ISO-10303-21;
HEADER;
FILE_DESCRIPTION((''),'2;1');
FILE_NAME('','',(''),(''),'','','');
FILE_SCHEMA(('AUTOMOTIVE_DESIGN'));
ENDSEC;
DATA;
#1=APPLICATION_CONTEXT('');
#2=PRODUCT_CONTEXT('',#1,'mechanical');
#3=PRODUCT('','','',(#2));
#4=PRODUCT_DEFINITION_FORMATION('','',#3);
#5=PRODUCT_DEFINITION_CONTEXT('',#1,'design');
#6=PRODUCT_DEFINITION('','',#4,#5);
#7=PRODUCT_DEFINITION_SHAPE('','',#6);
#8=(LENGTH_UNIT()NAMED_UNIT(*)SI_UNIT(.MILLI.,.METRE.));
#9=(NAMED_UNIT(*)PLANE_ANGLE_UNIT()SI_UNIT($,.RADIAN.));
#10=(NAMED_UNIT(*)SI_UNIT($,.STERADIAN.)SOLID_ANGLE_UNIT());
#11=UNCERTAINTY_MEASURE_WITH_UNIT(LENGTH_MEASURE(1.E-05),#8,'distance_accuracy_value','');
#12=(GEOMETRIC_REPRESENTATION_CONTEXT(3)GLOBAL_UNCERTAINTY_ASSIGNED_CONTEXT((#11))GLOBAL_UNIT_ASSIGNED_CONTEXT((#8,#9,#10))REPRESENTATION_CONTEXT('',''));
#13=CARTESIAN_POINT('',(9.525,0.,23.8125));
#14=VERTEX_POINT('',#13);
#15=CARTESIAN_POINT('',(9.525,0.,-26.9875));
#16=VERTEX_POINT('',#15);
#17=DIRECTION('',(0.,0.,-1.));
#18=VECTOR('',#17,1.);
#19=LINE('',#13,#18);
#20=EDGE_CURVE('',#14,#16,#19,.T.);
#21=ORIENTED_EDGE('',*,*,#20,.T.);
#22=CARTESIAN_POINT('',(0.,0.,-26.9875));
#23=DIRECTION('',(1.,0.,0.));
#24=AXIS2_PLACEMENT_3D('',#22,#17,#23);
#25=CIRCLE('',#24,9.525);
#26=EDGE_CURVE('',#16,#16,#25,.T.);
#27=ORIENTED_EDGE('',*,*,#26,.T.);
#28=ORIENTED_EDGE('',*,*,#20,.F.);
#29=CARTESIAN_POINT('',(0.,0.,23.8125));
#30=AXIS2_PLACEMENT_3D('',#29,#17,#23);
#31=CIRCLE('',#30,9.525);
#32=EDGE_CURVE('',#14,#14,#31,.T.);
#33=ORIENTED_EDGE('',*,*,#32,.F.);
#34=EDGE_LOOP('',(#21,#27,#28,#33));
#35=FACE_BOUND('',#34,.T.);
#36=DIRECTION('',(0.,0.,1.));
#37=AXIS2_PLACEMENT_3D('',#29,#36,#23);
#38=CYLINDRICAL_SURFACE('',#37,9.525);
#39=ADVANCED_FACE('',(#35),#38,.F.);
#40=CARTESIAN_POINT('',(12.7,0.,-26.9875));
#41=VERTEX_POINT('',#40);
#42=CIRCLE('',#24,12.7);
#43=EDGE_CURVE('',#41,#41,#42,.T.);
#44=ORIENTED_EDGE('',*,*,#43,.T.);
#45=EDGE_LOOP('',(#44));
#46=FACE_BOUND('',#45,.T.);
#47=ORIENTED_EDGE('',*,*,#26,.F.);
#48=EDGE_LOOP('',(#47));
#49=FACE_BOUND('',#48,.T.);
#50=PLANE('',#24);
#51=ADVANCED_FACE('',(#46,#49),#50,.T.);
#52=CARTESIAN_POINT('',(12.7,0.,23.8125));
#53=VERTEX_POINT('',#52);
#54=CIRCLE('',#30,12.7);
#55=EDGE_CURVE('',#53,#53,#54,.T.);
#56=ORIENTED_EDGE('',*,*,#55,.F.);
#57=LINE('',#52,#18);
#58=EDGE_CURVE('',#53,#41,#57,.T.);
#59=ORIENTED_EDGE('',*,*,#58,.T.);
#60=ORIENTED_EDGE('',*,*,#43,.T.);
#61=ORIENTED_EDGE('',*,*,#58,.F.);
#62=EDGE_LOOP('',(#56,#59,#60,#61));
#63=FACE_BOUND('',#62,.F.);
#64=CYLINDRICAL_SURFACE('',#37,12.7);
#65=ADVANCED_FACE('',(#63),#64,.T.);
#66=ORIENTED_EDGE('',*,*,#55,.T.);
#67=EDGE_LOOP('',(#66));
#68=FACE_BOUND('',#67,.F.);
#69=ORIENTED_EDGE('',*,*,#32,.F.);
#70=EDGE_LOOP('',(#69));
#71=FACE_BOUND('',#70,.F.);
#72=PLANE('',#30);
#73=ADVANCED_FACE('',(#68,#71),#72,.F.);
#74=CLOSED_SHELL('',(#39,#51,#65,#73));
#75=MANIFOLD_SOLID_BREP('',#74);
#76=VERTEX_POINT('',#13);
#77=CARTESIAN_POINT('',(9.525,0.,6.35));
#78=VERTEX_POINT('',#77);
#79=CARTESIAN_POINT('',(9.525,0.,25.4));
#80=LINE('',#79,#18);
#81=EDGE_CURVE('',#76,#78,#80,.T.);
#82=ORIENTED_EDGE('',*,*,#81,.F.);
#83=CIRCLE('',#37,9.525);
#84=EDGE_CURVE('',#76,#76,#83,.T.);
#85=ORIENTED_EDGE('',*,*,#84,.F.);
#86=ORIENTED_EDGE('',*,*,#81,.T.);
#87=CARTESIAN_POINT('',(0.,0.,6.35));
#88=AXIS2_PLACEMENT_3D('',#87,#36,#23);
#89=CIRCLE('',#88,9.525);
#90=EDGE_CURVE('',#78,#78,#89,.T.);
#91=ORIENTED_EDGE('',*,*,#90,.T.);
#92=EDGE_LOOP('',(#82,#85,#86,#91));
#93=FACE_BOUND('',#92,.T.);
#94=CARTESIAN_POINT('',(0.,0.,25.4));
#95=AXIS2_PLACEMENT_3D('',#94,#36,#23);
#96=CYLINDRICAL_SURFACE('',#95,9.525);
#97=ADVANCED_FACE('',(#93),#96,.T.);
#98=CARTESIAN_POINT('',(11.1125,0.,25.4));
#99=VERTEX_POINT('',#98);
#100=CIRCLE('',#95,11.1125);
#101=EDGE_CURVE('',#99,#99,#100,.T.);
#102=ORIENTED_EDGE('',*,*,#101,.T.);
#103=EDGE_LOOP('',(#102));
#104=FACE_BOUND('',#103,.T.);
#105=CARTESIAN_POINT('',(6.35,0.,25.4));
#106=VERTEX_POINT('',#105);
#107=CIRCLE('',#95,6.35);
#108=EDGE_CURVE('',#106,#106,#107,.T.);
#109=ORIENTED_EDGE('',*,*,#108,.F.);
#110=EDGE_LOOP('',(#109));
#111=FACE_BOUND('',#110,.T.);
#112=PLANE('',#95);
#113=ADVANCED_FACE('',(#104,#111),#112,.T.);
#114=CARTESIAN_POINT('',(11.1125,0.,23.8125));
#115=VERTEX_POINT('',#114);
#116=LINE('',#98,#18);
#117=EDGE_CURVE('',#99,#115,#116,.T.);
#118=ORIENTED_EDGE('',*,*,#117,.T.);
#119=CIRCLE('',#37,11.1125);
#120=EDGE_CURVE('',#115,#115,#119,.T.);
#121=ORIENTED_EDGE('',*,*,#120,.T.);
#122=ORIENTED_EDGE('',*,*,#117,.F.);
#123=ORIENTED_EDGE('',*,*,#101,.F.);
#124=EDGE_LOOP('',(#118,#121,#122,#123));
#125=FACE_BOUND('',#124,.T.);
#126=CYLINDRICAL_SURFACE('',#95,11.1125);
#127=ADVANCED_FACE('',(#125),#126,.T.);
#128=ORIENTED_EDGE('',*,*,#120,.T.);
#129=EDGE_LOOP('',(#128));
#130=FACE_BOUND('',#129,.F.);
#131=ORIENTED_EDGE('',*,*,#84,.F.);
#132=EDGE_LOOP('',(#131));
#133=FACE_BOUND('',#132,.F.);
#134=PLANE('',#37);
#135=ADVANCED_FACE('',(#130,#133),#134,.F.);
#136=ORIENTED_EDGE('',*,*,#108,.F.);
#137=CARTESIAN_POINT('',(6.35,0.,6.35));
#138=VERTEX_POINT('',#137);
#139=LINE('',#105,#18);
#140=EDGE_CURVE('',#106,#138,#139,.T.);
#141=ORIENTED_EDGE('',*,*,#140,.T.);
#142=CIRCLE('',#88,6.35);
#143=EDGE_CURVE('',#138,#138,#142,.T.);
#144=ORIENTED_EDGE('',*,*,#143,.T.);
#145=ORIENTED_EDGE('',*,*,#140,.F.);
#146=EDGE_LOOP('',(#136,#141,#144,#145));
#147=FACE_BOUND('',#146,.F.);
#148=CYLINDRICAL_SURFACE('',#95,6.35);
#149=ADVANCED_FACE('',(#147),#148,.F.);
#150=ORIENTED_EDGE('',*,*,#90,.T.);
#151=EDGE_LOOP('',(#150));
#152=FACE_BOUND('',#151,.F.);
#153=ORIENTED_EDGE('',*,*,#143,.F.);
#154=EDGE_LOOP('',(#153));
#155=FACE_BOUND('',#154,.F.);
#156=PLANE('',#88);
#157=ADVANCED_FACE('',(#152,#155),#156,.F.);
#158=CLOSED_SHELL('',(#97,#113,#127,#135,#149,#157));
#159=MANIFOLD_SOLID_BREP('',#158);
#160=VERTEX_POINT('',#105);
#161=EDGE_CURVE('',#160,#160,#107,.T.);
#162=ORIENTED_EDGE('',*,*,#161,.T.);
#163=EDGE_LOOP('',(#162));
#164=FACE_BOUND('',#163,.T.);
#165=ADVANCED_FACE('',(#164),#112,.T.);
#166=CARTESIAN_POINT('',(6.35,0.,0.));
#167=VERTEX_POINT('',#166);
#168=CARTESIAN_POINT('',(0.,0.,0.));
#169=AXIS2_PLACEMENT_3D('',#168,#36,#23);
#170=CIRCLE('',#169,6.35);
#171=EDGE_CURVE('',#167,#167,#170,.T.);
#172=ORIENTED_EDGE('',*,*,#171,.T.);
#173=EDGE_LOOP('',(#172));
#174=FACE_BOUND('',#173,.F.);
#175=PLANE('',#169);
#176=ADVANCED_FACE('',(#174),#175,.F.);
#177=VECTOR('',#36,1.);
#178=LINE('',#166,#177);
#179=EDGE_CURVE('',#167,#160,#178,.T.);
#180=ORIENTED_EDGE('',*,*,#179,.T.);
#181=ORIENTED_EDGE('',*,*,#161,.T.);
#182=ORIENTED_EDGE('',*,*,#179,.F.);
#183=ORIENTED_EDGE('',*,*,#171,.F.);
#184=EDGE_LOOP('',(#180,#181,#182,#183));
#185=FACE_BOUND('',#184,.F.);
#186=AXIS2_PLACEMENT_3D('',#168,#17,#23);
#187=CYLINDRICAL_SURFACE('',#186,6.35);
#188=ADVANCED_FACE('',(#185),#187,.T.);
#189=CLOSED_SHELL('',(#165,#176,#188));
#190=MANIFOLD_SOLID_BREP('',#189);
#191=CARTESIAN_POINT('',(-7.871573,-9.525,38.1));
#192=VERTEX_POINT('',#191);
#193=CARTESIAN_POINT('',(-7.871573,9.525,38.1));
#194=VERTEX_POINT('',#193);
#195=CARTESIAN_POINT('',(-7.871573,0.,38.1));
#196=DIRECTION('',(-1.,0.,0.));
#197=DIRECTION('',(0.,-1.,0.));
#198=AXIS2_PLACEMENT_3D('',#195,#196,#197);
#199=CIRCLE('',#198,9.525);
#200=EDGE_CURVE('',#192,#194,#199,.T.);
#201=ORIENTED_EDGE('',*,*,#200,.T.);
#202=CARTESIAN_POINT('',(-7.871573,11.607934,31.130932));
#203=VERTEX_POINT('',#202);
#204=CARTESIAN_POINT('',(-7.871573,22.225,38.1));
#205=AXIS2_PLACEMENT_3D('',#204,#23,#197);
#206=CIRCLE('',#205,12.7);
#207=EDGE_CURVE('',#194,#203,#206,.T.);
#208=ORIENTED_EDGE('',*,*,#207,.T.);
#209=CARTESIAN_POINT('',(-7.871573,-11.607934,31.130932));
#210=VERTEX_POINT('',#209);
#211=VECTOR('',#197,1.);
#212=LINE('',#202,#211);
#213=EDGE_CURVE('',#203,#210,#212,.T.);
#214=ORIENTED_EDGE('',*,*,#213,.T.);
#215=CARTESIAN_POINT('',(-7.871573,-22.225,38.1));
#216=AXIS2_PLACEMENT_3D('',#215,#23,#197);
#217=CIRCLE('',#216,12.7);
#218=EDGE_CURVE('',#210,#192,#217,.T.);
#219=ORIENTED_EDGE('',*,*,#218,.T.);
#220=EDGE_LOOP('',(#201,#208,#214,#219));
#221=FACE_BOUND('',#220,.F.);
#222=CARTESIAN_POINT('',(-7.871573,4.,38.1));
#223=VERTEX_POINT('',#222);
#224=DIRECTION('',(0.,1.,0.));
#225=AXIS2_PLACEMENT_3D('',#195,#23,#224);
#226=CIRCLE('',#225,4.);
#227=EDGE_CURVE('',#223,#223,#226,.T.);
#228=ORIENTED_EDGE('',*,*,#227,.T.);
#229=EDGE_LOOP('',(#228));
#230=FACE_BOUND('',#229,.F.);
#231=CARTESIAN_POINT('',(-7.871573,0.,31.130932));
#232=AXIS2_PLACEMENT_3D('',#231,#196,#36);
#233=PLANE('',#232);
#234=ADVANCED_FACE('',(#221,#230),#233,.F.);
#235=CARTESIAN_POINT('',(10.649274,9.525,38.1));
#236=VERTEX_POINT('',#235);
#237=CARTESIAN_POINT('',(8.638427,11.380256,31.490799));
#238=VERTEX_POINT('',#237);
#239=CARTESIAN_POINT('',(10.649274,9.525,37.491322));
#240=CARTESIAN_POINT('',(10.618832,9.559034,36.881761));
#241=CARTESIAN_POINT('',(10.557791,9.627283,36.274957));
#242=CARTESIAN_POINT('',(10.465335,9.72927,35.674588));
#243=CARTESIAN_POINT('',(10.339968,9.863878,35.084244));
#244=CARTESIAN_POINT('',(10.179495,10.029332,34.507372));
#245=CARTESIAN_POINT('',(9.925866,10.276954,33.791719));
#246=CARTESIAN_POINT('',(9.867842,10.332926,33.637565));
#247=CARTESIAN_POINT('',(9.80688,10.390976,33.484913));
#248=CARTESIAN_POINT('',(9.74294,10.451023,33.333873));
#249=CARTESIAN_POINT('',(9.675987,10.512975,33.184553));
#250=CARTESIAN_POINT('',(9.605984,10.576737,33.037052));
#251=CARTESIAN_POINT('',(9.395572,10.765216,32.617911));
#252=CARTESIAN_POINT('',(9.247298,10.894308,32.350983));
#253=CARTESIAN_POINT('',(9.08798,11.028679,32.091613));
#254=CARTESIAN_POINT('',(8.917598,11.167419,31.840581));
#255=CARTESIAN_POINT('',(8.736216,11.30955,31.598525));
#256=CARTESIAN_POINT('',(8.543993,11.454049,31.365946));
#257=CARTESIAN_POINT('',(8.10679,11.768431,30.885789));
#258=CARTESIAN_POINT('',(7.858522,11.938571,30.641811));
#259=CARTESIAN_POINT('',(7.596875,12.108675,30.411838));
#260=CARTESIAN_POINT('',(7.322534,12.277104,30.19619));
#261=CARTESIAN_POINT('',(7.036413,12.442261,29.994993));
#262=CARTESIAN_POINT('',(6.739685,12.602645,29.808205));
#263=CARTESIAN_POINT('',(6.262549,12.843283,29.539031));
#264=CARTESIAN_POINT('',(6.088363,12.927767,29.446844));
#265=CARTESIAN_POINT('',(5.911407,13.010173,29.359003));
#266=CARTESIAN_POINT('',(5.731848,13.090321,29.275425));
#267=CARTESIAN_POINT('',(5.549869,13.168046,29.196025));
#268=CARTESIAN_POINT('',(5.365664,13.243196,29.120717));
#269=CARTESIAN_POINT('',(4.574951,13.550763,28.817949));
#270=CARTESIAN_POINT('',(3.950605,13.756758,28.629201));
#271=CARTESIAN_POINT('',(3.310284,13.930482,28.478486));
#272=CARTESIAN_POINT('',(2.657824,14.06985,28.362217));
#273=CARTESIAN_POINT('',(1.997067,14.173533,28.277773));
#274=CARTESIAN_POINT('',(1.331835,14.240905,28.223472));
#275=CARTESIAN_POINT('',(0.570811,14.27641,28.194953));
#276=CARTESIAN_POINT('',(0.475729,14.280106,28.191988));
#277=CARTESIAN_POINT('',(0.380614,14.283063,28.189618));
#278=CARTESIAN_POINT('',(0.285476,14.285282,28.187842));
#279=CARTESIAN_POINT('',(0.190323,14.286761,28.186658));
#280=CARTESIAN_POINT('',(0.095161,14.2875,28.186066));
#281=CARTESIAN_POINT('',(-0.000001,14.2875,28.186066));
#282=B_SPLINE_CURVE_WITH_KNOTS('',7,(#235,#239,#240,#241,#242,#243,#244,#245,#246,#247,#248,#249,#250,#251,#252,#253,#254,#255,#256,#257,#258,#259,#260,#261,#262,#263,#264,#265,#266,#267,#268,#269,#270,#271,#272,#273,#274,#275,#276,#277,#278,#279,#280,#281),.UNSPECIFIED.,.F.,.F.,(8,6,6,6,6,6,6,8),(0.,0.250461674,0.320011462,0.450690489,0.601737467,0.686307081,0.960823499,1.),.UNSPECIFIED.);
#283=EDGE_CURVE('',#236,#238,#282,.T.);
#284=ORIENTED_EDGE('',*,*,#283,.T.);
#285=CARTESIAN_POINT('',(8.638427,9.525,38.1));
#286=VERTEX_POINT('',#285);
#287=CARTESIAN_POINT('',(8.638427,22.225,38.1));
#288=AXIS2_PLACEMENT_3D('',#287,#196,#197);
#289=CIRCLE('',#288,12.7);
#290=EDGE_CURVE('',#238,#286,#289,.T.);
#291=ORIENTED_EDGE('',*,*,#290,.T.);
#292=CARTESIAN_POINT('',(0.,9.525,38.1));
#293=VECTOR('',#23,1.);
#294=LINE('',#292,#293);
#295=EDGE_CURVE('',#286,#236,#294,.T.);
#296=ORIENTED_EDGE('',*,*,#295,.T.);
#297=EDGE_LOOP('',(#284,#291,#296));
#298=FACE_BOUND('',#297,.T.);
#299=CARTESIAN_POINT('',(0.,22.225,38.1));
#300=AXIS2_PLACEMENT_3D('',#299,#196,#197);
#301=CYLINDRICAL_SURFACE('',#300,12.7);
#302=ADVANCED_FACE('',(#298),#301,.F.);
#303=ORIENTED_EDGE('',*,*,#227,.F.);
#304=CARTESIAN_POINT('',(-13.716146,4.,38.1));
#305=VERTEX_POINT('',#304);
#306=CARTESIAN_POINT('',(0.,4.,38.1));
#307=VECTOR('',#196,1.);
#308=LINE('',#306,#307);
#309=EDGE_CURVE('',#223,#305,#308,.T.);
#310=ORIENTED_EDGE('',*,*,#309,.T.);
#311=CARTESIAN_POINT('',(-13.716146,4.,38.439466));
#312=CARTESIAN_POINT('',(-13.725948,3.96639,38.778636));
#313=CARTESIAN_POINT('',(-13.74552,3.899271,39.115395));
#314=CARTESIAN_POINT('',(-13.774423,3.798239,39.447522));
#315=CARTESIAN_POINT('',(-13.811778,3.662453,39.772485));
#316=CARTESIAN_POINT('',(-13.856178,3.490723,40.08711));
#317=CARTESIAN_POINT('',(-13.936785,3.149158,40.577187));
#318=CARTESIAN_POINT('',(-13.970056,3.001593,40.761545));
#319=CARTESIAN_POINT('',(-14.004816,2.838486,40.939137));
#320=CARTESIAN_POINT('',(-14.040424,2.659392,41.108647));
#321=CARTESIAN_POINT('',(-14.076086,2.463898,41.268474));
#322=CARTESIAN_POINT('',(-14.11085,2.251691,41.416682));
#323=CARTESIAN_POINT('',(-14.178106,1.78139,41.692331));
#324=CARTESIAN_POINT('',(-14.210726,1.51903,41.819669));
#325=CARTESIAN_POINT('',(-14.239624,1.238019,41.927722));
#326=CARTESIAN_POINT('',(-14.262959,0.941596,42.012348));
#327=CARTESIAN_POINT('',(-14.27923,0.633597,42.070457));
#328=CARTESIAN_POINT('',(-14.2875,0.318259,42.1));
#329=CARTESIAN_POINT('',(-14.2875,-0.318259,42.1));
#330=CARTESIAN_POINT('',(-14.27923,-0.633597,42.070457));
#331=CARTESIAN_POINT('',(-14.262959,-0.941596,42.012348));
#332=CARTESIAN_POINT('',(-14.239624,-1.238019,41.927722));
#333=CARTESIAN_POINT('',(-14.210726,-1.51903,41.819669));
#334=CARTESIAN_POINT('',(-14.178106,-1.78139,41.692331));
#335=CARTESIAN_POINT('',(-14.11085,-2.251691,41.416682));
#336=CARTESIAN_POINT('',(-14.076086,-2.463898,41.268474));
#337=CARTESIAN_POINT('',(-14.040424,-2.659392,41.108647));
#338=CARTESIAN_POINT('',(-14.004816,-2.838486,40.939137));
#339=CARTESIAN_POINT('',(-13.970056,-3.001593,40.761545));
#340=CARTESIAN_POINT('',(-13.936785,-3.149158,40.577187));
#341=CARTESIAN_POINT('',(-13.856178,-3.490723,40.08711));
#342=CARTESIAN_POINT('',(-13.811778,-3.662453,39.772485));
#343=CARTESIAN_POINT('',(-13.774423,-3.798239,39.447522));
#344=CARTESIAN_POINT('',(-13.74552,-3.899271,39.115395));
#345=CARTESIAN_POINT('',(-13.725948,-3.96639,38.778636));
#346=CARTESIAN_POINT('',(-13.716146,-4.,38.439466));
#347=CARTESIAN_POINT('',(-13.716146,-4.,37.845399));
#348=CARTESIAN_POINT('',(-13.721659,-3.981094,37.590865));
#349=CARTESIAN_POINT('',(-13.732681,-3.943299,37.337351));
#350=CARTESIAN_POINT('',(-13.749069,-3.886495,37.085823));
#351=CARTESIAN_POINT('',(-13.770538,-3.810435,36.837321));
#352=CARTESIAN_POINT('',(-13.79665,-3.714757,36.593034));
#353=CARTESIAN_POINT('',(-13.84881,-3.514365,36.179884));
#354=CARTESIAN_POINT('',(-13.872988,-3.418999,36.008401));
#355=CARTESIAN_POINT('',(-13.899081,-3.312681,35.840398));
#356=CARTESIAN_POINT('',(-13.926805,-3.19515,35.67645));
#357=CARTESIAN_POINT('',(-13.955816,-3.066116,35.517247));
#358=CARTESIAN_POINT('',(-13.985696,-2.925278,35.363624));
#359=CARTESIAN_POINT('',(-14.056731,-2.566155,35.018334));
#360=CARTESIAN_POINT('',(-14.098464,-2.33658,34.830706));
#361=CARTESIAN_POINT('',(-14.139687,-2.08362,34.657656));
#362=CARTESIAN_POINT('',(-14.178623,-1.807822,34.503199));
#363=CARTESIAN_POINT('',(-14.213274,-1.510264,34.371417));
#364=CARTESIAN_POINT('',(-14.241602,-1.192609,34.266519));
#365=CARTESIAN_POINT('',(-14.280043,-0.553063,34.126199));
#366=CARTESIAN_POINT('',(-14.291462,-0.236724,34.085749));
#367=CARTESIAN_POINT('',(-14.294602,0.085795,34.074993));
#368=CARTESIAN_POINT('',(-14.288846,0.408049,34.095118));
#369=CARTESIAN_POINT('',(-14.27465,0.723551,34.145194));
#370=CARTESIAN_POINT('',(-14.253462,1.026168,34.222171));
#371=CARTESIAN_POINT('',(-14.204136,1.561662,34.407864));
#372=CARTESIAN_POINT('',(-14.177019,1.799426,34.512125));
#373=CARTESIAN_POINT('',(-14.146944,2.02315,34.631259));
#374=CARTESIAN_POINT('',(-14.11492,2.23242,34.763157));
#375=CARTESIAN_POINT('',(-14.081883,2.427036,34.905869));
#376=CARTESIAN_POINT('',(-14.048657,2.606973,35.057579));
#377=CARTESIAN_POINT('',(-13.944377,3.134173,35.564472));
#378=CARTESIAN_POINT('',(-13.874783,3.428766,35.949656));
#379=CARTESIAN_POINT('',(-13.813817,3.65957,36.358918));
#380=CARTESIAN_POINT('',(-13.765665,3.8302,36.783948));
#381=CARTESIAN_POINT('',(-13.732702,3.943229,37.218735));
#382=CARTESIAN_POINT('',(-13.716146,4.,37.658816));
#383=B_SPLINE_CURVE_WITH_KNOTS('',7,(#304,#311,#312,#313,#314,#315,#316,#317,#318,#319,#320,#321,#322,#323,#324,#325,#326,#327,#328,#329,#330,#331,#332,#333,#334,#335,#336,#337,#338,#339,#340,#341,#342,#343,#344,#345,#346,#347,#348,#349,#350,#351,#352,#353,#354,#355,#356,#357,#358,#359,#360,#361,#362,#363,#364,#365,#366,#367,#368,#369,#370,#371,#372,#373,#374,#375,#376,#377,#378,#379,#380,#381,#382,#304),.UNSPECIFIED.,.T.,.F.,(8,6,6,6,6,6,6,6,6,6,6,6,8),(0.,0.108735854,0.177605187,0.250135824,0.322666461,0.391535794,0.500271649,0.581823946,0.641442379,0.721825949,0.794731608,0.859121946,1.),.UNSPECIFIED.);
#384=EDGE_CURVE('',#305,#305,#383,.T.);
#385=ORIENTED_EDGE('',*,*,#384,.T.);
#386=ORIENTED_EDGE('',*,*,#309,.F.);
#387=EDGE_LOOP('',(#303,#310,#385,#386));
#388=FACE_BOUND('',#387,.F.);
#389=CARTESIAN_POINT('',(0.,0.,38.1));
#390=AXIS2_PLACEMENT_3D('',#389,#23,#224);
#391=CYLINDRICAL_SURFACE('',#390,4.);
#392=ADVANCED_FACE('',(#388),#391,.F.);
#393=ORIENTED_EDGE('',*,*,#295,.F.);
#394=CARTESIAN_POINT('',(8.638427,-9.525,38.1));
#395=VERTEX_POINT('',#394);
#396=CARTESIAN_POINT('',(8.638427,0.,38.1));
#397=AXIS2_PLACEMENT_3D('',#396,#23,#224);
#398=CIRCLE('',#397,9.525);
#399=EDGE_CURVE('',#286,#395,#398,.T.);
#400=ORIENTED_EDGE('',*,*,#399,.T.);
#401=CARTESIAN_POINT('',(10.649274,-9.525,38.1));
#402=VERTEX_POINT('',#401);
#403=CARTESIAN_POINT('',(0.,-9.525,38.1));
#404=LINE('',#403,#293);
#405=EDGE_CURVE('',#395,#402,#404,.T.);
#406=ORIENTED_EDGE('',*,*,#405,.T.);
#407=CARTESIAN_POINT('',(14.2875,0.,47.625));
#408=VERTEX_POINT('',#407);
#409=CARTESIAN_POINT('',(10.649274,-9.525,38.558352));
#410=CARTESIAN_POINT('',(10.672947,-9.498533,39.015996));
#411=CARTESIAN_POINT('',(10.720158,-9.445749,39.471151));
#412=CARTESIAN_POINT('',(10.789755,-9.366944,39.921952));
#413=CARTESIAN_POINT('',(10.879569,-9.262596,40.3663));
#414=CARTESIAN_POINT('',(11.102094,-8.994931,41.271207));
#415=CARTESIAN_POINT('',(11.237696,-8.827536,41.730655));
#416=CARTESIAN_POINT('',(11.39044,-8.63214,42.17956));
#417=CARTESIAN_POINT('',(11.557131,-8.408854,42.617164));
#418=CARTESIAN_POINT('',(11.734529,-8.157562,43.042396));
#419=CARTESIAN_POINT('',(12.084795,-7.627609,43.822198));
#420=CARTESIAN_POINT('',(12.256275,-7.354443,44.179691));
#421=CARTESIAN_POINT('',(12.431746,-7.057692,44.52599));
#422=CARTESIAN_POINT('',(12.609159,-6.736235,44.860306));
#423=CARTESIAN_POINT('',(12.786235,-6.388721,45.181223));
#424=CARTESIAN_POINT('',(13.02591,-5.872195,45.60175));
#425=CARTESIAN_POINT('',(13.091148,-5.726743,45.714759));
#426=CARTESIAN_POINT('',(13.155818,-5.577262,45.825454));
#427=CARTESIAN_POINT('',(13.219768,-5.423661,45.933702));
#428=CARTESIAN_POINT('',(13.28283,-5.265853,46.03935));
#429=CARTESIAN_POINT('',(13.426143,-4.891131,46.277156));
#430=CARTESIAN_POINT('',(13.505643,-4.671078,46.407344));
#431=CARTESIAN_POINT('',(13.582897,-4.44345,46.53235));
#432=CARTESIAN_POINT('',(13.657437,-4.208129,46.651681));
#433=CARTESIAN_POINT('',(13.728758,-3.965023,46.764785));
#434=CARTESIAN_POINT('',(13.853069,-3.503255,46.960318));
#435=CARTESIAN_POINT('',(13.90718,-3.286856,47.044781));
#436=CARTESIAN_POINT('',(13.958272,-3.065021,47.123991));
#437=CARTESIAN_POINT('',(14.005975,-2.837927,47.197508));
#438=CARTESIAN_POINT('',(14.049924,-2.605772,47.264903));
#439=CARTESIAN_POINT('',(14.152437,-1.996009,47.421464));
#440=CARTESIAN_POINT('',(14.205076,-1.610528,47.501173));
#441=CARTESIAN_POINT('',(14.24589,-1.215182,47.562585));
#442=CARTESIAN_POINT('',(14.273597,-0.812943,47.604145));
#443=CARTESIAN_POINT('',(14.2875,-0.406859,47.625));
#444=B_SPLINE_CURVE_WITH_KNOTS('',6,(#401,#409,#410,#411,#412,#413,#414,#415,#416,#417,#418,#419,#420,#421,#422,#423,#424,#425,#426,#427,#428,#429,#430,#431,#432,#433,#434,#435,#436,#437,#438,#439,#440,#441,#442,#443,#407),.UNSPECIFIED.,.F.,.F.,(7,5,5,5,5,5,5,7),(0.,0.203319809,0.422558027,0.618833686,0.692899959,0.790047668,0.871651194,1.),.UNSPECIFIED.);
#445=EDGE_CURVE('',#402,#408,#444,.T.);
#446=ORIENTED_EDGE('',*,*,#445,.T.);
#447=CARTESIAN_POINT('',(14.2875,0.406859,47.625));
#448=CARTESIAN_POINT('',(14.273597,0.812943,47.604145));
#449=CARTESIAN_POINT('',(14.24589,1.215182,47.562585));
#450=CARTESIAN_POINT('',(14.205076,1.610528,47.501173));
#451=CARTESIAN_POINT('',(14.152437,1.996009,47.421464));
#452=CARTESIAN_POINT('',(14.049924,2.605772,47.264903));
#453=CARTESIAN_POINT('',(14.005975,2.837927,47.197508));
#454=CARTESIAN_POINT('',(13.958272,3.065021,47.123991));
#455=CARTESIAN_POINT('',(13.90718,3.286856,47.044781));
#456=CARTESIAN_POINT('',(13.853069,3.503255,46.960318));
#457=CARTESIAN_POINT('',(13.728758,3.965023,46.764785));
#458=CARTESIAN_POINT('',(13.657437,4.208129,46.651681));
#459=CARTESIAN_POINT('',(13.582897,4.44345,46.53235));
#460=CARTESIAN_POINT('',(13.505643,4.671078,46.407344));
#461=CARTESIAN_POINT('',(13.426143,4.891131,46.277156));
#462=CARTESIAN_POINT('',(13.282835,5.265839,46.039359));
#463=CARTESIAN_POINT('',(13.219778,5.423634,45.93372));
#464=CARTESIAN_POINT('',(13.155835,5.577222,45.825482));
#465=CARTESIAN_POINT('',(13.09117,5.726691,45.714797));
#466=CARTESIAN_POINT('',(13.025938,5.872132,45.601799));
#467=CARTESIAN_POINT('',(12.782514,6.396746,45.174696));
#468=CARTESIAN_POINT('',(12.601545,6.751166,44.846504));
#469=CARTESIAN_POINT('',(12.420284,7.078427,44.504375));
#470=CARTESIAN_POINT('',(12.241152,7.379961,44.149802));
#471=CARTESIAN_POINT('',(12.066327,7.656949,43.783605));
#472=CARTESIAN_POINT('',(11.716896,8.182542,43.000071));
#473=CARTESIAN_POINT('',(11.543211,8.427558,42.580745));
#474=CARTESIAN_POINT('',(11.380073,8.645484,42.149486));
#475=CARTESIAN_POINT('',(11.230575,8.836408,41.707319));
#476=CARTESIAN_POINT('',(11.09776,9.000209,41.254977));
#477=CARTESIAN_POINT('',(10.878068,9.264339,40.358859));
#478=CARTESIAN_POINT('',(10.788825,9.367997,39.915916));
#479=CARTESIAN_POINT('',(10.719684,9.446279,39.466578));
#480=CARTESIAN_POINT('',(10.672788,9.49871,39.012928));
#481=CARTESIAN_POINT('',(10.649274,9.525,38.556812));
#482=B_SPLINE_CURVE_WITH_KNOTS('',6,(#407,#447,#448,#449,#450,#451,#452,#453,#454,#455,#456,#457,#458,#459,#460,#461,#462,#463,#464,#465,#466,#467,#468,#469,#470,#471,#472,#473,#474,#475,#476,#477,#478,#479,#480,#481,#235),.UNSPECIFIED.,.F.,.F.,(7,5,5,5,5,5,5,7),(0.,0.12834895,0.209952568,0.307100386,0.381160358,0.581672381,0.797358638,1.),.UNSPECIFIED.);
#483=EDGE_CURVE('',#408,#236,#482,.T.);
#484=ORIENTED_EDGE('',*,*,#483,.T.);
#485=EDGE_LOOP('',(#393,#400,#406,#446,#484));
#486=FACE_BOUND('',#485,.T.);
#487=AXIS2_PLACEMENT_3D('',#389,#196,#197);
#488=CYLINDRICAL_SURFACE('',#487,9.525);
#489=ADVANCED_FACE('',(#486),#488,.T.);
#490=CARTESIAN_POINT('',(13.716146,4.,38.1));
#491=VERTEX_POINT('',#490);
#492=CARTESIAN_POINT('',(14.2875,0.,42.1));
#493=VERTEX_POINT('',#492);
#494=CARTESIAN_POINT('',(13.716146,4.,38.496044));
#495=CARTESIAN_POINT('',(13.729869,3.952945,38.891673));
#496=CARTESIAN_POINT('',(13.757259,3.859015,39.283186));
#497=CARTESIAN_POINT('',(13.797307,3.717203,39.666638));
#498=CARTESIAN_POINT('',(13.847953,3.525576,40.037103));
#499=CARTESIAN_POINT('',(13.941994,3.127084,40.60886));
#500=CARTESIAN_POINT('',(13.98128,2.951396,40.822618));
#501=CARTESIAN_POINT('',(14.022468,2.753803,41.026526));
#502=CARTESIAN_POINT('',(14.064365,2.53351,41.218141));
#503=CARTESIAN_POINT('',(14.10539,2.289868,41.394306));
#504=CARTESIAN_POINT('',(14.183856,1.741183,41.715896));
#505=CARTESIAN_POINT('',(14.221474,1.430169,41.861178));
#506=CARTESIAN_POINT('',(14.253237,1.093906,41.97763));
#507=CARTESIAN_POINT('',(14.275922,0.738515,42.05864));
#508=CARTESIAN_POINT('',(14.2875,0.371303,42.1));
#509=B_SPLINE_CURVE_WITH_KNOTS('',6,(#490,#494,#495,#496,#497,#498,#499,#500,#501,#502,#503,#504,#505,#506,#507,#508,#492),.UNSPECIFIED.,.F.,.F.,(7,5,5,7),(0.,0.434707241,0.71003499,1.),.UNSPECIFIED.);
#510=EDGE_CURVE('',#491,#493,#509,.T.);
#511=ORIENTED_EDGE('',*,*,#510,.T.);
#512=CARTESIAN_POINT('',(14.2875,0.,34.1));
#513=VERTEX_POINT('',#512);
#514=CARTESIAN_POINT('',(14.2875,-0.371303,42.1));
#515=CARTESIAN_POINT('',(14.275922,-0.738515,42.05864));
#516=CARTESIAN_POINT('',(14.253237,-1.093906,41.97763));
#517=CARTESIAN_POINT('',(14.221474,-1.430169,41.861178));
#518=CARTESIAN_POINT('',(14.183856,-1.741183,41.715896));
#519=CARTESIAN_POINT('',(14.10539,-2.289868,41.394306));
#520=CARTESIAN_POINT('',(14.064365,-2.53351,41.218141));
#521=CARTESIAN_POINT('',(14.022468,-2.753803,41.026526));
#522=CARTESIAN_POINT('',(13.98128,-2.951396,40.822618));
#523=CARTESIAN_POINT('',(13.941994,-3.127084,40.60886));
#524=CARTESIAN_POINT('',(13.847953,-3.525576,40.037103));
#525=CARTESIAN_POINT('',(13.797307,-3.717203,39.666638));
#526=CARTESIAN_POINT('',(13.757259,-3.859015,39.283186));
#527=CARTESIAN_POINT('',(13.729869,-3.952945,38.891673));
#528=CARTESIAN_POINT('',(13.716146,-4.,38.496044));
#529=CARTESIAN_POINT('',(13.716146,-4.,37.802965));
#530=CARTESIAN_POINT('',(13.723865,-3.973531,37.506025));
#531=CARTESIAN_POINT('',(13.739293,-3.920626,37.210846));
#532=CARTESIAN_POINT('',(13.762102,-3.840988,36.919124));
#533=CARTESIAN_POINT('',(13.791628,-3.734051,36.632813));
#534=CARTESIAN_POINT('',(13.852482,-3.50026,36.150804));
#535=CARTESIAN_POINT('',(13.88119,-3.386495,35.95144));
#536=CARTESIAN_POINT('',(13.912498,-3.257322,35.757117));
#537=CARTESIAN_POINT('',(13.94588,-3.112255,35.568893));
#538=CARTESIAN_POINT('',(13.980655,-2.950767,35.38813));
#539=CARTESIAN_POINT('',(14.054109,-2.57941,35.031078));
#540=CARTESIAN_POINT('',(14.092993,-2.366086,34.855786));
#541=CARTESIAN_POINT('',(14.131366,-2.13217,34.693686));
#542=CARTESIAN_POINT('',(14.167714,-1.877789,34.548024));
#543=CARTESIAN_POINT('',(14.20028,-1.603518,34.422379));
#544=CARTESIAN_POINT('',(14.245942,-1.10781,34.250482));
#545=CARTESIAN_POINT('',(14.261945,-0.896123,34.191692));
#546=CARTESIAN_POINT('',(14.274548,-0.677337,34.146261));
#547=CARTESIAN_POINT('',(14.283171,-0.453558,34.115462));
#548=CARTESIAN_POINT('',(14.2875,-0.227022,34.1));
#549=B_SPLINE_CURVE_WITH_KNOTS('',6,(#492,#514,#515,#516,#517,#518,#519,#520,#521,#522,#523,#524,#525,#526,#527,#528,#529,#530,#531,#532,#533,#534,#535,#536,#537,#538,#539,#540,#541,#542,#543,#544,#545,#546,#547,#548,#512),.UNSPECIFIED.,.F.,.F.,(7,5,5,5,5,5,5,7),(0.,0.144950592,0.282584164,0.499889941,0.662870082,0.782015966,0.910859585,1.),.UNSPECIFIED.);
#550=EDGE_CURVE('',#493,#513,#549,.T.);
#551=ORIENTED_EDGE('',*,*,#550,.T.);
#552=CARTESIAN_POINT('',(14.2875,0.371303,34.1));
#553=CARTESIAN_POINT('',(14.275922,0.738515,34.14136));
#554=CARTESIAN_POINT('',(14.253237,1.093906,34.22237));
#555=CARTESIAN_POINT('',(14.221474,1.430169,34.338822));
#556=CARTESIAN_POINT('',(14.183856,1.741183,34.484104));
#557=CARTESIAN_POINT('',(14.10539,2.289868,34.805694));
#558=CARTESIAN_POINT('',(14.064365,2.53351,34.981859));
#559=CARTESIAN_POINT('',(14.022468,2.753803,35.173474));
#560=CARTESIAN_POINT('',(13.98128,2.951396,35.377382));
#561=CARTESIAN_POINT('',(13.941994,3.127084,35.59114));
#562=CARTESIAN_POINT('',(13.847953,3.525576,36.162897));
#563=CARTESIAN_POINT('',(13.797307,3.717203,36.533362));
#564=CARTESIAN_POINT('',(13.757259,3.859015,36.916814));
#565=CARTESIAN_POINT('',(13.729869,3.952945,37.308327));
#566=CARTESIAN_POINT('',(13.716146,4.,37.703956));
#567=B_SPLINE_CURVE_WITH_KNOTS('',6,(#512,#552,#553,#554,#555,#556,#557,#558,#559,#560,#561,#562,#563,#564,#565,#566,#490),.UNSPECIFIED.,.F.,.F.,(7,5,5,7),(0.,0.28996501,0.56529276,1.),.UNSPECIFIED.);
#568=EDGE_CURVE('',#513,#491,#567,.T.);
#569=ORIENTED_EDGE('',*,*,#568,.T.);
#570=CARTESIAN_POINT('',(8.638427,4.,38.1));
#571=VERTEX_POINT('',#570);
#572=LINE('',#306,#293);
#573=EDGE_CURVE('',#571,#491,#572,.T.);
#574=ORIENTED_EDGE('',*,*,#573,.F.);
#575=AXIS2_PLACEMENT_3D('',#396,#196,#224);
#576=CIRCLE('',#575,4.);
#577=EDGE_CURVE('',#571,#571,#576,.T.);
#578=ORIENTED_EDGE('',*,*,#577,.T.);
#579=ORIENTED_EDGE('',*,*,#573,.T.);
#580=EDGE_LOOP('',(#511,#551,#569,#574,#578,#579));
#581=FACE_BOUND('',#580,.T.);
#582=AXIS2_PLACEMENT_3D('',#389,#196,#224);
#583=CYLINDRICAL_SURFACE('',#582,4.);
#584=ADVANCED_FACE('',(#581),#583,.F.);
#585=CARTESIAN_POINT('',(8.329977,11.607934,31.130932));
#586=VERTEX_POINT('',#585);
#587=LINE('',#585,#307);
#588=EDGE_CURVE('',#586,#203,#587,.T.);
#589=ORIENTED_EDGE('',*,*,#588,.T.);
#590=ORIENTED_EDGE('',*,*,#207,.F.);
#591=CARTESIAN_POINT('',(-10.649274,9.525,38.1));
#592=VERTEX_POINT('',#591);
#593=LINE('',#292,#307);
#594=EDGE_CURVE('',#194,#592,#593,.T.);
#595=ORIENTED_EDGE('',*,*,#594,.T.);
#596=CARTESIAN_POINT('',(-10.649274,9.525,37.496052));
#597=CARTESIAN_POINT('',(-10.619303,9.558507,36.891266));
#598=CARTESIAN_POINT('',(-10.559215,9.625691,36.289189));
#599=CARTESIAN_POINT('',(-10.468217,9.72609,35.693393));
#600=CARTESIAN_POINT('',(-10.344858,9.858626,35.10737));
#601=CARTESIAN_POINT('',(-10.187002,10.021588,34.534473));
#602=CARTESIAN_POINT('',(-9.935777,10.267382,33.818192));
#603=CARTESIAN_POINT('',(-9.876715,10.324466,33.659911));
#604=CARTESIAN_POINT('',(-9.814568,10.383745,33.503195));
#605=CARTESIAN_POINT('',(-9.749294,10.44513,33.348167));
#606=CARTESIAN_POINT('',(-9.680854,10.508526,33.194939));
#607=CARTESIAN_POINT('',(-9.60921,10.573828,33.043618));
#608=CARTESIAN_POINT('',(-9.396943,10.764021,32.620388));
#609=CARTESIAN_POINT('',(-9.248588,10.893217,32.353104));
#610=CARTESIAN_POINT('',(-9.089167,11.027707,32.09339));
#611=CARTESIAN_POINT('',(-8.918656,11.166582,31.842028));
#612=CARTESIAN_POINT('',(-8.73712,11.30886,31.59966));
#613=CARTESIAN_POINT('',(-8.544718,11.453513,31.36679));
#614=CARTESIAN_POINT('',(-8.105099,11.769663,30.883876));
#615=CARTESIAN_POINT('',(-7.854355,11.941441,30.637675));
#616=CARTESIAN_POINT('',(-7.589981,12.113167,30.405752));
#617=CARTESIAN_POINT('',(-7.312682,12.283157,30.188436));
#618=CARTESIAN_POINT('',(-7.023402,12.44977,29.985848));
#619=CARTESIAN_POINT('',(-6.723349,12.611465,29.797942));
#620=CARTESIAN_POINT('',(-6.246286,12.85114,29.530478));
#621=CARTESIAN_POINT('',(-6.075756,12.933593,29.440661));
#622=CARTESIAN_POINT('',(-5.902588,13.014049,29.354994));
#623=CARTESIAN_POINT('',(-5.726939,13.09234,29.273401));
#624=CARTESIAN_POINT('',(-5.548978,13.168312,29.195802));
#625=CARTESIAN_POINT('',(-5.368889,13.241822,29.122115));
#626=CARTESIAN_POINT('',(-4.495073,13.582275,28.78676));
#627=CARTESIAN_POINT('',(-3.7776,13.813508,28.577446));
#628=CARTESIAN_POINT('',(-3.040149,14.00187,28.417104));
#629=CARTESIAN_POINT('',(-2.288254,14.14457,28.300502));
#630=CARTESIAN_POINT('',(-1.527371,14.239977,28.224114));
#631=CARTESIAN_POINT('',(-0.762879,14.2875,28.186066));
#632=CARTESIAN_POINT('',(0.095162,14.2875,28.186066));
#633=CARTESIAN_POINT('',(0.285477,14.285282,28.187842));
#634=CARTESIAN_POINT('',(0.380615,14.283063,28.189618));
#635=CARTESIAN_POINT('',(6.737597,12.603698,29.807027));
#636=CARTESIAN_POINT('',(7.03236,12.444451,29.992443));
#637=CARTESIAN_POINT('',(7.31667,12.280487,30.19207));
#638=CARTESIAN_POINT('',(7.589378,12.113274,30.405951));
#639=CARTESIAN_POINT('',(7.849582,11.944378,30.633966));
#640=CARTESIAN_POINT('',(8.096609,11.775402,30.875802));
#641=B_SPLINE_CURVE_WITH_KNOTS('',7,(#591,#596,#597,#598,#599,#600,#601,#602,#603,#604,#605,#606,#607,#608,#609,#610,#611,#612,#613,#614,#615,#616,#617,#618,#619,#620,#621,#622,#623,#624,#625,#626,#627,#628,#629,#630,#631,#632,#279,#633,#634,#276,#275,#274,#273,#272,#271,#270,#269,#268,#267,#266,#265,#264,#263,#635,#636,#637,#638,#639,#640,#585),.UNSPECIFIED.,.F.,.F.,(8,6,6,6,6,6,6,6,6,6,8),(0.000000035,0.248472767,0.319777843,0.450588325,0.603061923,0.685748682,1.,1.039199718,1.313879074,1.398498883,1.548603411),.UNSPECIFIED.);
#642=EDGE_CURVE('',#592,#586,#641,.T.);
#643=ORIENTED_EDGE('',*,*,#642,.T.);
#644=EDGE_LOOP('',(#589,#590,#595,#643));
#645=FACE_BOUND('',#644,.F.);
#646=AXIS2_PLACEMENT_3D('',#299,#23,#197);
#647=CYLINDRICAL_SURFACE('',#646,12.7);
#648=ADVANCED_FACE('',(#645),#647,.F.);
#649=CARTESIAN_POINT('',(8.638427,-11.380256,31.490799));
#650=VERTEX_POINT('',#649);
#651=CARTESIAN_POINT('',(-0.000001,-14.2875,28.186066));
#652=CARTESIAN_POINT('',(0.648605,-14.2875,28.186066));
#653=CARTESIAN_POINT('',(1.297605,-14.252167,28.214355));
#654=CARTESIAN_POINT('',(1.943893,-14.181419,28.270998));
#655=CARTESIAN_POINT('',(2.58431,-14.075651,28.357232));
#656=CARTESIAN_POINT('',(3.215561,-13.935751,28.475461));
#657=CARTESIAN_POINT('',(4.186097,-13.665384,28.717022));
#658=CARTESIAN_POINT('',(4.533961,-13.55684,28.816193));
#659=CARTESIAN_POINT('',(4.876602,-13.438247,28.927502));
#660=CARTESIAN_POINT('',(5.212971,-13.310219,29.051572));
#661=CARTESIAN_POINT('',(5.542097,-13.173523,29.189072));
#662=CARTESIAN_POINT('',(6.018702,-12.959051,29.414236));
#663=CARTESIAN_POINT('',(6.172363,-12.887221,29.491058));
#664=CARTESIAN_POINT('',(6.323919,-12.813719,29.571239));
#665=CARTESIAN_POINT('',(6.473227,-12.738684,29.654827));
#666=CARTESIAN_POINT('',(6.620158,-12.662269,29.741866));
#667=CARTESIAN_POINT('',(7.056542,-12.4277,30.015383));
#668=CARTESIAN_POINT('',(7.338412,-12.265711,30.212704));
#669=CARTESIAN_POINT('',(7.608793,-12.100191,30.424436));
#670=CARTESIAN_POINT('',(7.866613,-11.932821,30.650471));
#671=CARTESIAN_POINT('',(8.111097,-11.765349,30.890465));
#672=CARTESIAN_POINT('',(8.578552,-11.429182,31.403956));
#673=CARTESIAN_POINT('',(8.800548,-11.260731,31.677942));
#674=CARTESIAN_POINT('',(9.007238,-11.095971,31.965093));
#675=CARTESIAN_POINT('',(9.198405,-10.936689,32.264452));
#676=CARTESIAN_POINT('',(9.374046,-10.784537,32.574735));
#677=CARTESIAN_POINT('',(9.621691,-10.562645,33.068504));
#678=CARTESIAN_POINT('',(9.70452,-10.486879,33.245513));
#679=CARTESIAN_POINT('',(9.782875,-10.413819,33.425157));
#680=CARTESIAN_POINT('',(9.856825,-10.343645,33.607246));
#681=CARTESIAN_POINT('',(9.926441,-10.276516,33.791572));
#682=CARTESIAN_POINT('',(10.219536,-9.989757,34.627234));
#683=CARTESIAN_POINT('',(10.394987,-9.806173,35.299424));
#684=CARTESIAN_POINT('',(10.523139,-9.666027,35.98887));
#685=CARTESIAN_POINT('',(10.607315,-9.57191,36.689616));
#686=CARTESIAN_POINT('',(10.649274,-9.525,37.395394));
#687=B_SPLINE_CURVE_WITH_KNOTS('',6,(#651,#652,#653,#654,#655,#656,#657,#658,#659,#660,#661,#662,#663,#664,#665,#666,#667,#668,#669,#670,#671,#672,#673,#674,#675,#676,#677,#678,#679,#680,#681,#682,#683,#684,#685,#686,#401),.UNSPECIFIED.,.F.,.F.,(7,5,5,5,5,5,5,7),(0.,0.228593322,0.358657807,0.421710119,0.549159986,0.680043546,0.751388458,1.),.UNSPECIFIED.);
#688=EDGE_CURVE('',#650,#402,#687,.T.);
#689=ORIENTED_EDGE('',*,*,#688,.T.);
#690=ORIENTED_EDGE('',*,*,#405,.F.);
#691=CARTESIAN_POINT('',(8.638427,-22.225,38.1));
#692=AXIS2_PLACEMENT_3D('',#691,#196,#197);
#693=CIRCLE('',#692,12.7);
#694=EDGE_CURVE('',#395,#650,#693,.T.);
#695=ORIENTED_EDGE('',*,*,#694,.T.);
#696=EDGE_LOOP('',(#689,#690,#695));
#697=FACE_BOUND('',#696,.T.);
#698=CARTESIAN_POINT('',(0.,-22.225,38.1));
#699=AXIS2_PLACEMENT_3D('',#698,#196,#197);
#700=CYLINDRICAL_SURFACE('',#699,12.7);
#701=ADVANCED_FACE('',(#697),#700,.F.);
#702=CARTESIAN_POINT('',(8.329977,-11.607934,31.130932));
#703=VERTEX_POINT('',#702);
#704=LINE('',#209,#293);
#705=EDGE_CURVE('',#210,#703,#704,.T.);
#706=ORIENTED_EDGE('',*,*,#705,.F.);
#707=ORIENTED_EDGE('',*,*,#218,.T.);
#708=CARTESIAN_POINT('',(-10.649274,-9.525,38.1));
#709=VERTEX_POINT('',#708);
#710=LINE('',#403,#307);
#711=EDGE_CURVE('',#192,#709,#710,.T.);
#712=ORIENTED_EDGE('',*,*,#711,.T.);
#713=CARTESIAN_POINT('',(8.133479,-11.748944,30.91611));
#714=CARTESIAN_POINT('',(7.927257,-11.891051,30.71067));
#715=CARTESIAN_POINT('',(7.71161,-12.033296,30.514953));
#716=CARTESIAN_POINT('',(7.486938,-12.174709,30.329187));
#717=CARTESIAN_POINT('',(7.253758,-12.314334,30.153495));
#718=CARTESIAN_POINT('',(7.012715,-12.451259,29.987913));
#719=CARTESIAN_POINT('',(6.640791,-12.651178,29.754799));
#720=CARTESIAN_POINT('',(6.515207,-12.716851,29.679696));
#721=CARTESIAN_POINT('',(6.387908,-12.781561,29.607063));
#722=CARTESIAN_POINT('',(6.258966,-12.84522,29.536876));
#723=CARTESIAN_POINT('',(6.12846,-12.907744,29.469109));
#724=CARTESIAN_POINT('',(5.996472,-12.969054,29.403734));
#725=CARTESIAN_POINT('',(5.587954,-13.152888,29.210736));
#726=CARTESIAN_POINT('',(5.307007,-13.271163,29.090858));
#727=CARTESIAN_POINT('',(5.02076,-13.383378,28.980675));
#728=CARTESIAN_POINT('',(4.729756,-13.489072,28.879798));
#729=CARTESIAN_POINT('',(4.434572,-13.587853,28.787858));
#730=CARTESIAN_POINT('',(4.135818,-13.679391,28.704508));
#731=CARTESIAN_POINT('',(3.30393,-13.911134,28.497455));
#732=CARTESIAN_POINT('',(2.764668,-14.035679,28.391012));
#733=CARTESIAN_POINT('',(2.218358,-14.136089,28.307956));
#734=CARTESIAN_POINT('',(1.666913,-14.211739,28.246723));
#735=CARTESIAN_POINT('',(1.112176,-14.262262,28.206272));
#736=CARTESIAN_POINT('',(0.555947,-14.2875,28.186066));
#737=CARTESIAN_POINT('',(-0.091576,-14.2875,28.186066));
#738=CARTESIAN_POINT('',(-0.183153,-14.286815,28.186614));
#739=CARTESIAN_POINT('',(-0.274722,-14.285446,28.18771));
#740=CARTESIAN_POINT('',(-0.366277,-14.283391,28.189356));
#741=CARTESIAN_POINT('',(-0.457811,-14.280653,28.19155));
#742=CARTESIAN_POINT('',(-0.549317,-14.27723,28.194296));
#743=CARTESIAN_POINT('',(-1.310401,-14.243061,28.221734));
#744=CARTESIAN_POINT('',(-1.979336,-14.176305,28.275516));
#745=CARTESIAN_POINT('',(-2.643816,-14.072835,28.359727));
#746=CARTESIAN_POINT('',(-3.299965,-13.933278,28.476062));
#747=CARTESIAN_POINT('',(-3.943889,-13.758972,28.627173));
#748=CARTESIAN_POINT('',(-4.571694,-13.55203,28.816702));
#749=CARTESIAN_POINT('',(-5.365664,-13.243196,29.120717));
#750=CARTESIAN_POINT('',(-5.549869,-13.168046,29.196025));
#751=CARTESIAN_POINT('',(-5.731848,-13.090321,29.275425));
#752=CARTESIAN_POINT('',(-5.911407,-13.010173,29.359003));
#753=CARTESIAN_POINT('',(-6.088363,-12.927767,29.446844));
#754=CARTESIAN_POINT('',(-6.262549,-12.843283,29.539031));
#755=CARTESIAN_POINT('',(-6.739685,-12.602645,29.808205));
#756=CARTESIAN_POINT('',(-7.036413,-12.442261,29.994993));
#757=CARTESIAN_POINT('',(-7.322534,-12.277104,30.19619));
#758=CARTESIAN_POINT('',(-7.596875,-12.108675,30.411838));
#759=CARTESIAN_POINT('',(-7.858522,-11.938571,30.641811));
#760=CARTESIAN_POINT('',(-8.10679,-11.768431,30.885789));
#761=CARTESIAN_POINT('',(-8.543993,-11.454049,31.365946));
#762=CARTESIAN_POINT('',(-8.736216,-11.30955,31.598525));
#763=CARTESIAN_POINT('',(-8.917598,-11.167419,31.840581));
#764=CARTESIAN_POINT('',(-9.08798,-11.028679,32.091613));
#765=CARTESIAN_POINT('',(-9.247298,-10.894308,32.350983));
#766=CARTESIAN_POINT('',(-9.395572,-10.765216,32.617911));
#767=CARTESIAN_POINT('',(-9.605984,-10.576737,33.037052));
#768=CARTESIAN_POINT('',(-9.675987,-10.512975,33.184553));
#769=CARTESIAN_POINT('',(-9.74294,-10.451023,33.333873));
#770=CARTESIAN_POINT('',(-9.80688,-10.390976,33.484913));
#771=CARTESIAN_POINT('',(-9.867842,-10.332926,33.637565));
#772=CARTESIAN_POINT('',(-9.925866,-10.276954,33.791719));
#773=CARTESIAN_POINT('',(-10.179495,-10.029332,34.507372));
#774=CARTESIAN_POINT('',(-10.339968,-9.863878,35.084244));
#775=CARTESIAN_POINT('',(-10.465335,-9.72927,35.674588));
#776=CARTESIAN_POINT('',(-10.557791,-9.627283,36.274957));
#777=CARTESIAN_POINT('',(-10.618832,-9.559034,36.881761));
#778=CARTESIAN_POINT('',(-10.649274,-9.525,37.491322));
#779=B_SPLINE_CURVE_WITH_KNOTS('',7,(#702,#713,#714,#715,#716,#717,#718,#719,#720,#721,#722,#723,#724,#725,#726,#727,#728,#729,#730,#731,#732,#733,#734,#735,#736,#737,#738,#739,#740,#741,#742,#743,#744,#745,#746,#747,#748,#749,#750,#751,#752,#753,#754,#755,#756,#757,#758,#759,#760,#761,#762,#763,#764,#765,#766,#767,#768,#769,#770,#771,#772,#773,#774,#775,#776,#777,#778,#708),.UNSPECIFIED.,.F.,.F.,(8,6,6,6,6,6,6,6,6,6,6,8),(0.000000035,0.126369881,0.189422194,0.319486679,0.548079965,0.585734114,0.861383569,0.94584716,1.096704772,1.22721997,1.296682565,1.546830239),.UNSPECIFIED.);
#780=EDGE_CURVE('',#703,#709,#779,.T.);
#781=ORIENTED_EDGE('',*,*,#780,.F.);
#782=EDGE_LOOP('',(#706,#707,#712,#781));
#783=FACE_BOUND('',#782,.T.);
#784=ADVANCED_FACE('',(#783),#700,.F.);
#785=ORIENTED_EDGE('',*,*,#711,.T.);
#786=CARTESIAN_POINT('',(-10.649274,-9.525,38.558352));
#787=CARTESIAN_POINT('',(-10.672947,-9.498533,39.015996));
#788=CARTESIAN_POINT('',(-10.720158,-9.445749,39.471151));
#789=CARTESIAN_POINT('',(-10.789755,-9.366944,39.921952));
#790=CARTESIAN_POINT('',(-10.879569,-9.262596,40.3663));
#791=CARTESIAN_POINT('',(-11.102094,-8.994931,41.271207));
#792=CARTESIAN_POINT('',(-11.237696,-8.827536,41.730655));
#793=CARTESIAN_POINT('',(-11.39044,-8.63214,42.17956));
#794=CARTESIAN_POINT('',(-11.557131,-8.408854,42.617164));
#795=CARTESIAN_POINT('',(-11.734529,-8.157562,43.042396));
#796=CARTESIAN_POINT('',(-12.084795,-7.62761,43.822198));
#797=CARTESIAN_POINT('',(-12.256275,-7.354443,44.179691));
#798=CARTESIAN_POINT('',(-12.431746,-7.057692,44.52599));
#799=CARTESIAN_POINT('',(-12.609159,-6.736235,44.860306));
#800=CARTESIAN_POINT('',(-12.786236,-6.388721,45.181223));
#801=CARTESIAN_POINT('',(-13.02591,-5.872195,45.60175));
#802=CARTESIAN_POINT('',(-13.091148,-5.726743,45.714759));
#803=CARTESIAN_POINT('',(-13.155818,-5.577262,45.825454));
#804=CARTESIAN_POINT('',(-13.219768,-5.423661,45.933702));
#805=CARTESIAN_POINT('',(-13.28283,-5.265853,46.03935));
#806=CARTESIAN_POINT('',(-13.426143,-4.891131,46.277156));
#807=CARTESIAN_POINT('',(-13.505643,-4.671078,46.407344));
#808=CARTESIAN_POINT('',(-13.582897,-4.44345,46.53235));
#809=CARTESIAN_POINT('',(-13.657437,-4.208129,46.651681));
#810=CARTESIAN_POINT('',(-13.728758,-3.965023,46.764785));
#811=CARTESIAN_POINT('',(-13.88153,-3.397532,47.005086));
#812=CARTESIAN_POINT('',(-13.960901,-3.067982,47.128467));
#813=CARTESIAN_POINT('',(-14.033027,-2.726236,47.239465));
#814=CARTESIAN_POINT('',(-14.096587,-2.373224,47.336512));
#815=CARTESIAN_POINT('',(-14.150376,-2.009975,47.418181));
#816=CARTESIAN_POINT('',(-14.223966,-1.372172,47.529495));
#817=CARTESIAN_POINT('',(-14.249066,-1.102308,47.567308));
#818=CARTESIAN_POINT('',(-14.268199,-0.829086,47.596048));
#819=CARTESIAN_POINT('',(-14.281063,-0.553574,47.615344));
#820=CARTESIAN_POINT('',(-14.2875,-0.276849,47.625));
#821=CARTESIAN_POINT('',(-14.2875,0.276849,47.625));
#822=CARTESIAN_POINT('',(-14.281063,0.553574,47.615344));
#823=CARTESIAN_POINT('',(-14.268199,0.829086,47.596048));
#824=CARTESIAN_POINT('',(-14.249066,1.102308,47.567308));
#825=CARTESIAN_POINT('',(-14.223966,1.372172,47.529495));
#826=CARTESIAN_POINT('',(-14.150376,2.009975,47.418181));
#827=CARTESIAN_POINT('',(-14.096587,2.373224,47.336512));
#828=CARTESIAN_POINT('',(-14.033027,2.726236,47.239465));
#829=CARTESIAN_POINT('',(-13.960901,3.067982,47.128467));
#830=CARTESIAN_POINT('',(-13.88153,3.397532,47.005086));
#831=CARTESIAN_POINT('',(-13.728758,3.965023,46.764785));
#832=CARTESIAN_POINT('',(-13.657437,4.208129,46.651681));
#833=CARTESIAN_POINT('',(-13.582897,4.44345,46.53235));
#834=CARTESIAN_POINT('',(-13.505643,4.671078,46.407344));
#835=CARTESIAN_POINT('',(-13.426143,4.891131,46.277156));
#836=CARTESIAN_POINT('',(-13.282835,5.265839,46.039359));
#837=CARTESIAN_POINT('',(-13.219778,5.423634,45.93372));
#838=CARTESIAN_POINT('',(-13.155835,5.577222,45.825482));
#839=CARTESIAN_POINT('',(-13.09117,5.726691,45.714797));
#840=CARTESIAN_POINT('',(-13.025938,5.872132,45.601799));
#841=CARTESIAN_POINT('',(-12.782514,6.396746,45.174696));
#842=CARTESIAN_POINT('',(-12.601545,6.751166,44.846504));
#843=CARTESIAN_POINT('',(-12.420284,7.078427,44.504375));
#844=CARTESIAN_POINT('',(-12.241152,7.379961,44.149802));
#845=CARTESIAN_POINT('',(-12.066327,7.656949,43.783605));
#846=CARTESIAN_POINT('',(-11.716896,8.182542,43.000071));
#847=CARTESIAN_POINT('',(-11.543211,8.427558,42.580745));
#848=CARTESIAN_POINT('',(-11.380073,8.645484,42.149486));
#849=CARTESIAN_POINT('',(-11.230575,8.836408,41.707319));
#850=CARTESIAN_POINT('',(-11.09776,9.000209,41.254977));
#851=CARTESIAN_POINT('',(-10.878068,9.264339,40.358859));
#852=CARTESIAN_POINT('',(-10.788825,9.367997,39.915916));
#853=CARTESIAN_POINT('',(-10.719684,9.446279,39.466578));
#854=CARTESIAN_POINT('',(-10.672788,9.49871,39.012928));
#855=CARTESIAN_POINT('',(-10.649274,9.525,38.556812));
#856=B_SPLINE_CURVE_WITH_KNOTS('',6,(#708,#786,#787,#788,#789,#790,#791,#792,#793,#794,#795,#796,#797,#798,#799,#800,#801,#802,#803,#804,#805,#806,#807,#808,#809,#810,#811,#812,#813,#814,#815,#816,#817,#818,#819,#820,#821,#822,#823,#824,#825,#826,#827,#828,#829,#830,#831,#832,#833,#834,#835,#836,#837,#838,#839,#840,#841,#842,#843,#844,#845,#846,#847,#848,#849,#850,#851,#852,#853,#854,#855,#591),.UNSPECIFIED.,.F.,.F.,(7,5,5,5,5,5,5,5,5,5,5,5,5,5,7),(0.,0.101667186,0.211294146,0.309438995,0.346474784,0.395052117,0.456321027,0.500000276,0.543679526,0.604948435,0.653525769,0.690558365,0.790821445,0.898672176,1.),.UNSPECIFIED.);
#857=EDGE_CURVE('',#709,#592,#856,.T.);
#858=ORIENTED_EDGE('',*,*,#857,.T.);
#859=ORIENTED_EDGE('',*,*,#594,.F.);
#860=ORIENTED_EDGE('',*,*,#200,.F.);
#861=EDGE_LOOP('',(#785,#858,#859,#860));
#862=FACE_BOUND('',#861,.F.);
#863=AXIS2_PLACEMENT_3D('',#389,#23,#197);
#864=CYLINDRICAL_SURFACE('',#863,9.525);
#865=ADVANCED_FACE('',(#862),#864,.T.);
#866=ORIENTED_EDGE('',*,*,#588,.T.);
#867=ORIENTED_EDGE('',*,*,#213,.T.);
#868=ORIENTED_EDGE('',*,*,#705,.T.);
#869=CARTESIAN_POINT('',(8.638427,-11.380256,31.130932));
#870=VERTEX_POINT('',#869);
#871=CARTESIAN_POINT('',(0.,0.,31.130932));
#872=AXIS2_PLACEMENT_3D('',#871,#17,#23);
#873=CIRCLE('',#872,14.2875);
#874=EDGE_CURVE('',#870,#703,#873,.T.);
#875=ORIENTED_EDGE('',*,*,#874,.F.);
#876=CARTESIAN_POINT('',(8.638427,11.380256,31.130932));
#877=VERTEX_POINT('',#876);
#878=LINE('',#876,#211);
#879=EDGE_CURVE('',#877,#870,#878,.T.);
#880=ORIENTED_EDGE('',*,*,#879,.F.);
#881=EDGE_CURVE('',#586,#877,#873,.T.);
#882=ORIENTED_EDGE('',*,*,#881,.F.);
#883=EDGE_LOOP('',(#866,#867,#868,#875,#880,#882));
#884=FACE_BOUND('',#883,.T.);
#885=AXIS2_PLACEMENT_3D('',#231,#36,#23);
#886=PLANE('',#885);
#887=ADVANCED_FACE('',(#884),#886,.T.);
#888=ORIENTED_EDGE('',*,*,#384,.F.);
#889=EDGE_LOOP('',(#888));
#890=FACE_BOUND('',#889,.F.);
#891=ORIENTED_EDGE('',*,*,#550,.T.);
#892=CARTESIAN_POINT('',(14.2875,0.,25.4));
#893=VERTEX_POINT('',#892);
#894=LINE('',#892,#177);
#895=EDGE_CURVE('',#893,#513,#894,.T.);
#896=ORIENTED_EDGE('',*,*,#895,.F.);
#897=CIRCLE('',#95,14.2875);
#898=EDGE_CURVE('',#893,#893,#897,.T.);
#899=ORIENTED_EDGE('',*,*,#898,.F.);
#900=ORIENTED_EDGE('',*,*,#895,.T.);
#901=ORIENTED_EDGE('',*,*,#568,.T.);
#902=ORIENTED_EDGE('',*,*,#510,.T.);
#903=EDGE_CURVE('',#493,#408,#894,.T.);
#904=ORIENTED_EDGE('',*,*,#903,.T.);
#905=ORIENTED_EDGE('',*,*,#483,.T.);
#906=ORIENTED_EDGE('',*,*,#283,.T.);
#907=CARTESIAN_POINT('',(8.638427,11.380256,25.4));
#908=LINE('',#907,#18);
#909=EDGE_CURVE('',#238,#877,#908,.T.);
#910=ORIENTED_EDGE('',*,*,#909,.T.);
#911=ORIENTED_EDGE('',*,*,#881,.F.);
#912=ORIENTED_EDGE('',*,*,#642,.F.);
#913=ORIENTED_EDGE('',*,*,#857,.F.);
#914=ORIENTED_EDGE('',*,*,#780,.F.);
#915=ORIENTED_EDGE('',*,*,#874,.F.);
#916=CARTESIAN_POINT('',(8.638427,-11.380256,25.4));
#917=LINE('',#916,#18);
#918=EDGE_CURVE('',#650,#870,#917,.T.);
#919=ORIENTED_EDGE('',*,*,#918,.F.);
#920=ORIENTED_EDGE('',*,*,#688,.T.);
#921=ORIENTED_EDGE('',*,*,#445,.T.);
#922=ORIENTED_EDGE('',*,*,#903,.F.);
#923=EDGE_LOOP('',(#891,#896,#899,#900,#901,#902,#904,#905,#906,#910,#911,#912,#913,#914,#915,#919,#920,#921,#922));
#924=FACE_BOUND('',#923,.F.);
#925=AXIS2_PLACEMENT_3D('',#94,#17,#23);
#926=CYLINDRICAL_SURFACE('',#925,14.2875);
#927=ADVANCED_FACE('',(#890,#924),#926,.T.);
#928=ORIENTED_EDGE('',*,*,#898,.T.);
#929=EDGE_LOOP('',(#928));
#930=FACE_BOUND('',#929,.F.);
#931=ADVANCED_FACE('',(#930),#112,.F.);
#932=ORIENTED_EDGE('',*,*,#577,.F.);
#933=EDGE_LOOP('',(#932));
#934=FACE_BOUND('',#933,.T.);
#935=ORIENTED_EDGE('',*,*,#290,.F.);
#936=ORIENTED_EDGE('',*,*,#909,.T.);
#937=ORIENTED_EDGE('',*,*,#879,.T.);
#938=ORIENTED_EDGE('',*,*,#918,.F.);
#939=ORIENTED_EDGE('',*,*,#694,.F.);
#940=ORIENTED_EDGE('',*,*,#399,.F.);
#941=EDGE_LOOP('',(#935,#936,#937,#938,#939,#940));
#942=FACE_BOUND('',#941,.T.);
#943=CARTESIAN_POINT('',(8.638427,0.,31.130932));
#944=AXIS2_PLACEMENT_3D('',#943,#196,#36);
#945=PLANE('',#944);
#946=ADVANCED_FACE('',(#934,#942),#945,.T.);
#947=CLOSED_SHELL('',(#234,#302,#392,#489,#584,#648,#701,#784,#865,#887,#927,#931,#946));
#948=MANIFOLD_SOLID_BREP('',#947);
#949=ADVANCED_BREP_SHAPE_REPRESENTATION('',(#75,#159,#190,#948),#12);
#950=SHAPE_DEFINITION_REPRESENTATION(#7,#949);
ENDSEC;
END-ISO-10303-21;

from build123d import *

# Parameters (mm, degrees)
F0_R           = 6.35
F1_DEPTH       = 25.4
F2_R           = 9.525
F2_R_2         = 6.35
F3_DEPTH       = 19.05
F2_R_3         = 11.1125
F4_DEPTH       = 1.5875
F5_R           = 12.7
F5_R_2         = 9.525
F6_DEPTH       = 50.8
F7_R           = 14.2875
F8_DEPTH       = 25.4
F9_R           = 4
F10_DEPTH      = 25.4
F10_DEPTH_BACK = 25.4
F11_W          = 16.51
F11_H          = 21.4139607947
F12_DEPTH      = 25.4
F12_DEPTH_BACK = 25.4


with BuildPart() as f1:
    # F0 (on Top) → F1 (new body)
    with BuildSketch(Plane.XY):
        Circle(F0_R)
    extrude(amount=F1_DEPTH)


with BuildPart() as f3:
    # F2 (on face) → F3 (new body)
    with BuildSketch(Plane.XY.offset(25.4)):
        Circle(F2_R)
        Circle(F2_R_2, mode=Mode.SUBTRACT)
    extrude(amount=-F3_DEPTH)

    # F2 (on face) → F4 (join)
    with BuildSketch(Plane.XY.offset(25.4)):
        Circle(F2_R_3)
        Circle(F2_R, mode=Mode.SUBTRACT)
    extrude(amount=-F4_DEPTH)


with BuildPart() as f6:
    # F5 (on face) → F6 (new body)
    with BuildSketch(Plane(origin=(0, 0, 23.8125), x_dir=(1, 0, 0), z_dir=(0, 0, -1))):
        Circle(F5_R)
        Circle(F5_R_2, mode=Mode.SUBTRACT)
    extrude(amount=F6_DEPTH)


with BuildPart() as f8:
    # F7 (on face) → F8 (new body)
    with BuildSketch(Plane.XY.offset(25.4)):
        Circle(F7_R)
    extrude(amount=F8_DEPTH)

    # F9 (on Right) → F10 (cut, two sides)
    with BuildSketch(Plane.YZ) as f10_sk:
        with Locations((0, 38.1)):
            Circle(F9_R)
        with BuildLine():
            ThreePointArc((-9.525, 38.1), (0, 47.625), (9.525, 38.1))
            ThreePointArc((9.525, 38.1), (22.225, 25.4), (34.925, 38.1))
            Line((34.925, 38.1), (34.925, 62.9070408605))
            Line((34.925, 62.9070408605), (-34.925, 62.9070408605))
            Line((-34.925, 62.9070408605), (-34.925, 38.1))
            ThreePointArc((-34.925, 38.1), (-22.225, 25.4), (-9.525, 38.1))
        make_face()
    extrude(amount=-F10_DEPTH, mode=Mode.SUBTRACT)
    extrude(f10_sk.sketch, amount=F10_DEPTH_BACK, mode=Mode.SUBTRACT)

    # F11 (on Front) → F12 (cut, two sides)
    with BuildSketch(Plane.XZ) as f12_sk:
        with Locations((0.383426901, 41.8379120529)):
            Rectangle(F11_W, F11_H)
    extrude(amount=-F12_DEPTH, mode=Mode.SUBTRACT)
    extrude(f12_sk.sketch, amount=F12_DEPTH_BACK, mode=Mode.SUBTRACT)


solid = Compound([f1.part, f3.part, f6.part, f8.part])
